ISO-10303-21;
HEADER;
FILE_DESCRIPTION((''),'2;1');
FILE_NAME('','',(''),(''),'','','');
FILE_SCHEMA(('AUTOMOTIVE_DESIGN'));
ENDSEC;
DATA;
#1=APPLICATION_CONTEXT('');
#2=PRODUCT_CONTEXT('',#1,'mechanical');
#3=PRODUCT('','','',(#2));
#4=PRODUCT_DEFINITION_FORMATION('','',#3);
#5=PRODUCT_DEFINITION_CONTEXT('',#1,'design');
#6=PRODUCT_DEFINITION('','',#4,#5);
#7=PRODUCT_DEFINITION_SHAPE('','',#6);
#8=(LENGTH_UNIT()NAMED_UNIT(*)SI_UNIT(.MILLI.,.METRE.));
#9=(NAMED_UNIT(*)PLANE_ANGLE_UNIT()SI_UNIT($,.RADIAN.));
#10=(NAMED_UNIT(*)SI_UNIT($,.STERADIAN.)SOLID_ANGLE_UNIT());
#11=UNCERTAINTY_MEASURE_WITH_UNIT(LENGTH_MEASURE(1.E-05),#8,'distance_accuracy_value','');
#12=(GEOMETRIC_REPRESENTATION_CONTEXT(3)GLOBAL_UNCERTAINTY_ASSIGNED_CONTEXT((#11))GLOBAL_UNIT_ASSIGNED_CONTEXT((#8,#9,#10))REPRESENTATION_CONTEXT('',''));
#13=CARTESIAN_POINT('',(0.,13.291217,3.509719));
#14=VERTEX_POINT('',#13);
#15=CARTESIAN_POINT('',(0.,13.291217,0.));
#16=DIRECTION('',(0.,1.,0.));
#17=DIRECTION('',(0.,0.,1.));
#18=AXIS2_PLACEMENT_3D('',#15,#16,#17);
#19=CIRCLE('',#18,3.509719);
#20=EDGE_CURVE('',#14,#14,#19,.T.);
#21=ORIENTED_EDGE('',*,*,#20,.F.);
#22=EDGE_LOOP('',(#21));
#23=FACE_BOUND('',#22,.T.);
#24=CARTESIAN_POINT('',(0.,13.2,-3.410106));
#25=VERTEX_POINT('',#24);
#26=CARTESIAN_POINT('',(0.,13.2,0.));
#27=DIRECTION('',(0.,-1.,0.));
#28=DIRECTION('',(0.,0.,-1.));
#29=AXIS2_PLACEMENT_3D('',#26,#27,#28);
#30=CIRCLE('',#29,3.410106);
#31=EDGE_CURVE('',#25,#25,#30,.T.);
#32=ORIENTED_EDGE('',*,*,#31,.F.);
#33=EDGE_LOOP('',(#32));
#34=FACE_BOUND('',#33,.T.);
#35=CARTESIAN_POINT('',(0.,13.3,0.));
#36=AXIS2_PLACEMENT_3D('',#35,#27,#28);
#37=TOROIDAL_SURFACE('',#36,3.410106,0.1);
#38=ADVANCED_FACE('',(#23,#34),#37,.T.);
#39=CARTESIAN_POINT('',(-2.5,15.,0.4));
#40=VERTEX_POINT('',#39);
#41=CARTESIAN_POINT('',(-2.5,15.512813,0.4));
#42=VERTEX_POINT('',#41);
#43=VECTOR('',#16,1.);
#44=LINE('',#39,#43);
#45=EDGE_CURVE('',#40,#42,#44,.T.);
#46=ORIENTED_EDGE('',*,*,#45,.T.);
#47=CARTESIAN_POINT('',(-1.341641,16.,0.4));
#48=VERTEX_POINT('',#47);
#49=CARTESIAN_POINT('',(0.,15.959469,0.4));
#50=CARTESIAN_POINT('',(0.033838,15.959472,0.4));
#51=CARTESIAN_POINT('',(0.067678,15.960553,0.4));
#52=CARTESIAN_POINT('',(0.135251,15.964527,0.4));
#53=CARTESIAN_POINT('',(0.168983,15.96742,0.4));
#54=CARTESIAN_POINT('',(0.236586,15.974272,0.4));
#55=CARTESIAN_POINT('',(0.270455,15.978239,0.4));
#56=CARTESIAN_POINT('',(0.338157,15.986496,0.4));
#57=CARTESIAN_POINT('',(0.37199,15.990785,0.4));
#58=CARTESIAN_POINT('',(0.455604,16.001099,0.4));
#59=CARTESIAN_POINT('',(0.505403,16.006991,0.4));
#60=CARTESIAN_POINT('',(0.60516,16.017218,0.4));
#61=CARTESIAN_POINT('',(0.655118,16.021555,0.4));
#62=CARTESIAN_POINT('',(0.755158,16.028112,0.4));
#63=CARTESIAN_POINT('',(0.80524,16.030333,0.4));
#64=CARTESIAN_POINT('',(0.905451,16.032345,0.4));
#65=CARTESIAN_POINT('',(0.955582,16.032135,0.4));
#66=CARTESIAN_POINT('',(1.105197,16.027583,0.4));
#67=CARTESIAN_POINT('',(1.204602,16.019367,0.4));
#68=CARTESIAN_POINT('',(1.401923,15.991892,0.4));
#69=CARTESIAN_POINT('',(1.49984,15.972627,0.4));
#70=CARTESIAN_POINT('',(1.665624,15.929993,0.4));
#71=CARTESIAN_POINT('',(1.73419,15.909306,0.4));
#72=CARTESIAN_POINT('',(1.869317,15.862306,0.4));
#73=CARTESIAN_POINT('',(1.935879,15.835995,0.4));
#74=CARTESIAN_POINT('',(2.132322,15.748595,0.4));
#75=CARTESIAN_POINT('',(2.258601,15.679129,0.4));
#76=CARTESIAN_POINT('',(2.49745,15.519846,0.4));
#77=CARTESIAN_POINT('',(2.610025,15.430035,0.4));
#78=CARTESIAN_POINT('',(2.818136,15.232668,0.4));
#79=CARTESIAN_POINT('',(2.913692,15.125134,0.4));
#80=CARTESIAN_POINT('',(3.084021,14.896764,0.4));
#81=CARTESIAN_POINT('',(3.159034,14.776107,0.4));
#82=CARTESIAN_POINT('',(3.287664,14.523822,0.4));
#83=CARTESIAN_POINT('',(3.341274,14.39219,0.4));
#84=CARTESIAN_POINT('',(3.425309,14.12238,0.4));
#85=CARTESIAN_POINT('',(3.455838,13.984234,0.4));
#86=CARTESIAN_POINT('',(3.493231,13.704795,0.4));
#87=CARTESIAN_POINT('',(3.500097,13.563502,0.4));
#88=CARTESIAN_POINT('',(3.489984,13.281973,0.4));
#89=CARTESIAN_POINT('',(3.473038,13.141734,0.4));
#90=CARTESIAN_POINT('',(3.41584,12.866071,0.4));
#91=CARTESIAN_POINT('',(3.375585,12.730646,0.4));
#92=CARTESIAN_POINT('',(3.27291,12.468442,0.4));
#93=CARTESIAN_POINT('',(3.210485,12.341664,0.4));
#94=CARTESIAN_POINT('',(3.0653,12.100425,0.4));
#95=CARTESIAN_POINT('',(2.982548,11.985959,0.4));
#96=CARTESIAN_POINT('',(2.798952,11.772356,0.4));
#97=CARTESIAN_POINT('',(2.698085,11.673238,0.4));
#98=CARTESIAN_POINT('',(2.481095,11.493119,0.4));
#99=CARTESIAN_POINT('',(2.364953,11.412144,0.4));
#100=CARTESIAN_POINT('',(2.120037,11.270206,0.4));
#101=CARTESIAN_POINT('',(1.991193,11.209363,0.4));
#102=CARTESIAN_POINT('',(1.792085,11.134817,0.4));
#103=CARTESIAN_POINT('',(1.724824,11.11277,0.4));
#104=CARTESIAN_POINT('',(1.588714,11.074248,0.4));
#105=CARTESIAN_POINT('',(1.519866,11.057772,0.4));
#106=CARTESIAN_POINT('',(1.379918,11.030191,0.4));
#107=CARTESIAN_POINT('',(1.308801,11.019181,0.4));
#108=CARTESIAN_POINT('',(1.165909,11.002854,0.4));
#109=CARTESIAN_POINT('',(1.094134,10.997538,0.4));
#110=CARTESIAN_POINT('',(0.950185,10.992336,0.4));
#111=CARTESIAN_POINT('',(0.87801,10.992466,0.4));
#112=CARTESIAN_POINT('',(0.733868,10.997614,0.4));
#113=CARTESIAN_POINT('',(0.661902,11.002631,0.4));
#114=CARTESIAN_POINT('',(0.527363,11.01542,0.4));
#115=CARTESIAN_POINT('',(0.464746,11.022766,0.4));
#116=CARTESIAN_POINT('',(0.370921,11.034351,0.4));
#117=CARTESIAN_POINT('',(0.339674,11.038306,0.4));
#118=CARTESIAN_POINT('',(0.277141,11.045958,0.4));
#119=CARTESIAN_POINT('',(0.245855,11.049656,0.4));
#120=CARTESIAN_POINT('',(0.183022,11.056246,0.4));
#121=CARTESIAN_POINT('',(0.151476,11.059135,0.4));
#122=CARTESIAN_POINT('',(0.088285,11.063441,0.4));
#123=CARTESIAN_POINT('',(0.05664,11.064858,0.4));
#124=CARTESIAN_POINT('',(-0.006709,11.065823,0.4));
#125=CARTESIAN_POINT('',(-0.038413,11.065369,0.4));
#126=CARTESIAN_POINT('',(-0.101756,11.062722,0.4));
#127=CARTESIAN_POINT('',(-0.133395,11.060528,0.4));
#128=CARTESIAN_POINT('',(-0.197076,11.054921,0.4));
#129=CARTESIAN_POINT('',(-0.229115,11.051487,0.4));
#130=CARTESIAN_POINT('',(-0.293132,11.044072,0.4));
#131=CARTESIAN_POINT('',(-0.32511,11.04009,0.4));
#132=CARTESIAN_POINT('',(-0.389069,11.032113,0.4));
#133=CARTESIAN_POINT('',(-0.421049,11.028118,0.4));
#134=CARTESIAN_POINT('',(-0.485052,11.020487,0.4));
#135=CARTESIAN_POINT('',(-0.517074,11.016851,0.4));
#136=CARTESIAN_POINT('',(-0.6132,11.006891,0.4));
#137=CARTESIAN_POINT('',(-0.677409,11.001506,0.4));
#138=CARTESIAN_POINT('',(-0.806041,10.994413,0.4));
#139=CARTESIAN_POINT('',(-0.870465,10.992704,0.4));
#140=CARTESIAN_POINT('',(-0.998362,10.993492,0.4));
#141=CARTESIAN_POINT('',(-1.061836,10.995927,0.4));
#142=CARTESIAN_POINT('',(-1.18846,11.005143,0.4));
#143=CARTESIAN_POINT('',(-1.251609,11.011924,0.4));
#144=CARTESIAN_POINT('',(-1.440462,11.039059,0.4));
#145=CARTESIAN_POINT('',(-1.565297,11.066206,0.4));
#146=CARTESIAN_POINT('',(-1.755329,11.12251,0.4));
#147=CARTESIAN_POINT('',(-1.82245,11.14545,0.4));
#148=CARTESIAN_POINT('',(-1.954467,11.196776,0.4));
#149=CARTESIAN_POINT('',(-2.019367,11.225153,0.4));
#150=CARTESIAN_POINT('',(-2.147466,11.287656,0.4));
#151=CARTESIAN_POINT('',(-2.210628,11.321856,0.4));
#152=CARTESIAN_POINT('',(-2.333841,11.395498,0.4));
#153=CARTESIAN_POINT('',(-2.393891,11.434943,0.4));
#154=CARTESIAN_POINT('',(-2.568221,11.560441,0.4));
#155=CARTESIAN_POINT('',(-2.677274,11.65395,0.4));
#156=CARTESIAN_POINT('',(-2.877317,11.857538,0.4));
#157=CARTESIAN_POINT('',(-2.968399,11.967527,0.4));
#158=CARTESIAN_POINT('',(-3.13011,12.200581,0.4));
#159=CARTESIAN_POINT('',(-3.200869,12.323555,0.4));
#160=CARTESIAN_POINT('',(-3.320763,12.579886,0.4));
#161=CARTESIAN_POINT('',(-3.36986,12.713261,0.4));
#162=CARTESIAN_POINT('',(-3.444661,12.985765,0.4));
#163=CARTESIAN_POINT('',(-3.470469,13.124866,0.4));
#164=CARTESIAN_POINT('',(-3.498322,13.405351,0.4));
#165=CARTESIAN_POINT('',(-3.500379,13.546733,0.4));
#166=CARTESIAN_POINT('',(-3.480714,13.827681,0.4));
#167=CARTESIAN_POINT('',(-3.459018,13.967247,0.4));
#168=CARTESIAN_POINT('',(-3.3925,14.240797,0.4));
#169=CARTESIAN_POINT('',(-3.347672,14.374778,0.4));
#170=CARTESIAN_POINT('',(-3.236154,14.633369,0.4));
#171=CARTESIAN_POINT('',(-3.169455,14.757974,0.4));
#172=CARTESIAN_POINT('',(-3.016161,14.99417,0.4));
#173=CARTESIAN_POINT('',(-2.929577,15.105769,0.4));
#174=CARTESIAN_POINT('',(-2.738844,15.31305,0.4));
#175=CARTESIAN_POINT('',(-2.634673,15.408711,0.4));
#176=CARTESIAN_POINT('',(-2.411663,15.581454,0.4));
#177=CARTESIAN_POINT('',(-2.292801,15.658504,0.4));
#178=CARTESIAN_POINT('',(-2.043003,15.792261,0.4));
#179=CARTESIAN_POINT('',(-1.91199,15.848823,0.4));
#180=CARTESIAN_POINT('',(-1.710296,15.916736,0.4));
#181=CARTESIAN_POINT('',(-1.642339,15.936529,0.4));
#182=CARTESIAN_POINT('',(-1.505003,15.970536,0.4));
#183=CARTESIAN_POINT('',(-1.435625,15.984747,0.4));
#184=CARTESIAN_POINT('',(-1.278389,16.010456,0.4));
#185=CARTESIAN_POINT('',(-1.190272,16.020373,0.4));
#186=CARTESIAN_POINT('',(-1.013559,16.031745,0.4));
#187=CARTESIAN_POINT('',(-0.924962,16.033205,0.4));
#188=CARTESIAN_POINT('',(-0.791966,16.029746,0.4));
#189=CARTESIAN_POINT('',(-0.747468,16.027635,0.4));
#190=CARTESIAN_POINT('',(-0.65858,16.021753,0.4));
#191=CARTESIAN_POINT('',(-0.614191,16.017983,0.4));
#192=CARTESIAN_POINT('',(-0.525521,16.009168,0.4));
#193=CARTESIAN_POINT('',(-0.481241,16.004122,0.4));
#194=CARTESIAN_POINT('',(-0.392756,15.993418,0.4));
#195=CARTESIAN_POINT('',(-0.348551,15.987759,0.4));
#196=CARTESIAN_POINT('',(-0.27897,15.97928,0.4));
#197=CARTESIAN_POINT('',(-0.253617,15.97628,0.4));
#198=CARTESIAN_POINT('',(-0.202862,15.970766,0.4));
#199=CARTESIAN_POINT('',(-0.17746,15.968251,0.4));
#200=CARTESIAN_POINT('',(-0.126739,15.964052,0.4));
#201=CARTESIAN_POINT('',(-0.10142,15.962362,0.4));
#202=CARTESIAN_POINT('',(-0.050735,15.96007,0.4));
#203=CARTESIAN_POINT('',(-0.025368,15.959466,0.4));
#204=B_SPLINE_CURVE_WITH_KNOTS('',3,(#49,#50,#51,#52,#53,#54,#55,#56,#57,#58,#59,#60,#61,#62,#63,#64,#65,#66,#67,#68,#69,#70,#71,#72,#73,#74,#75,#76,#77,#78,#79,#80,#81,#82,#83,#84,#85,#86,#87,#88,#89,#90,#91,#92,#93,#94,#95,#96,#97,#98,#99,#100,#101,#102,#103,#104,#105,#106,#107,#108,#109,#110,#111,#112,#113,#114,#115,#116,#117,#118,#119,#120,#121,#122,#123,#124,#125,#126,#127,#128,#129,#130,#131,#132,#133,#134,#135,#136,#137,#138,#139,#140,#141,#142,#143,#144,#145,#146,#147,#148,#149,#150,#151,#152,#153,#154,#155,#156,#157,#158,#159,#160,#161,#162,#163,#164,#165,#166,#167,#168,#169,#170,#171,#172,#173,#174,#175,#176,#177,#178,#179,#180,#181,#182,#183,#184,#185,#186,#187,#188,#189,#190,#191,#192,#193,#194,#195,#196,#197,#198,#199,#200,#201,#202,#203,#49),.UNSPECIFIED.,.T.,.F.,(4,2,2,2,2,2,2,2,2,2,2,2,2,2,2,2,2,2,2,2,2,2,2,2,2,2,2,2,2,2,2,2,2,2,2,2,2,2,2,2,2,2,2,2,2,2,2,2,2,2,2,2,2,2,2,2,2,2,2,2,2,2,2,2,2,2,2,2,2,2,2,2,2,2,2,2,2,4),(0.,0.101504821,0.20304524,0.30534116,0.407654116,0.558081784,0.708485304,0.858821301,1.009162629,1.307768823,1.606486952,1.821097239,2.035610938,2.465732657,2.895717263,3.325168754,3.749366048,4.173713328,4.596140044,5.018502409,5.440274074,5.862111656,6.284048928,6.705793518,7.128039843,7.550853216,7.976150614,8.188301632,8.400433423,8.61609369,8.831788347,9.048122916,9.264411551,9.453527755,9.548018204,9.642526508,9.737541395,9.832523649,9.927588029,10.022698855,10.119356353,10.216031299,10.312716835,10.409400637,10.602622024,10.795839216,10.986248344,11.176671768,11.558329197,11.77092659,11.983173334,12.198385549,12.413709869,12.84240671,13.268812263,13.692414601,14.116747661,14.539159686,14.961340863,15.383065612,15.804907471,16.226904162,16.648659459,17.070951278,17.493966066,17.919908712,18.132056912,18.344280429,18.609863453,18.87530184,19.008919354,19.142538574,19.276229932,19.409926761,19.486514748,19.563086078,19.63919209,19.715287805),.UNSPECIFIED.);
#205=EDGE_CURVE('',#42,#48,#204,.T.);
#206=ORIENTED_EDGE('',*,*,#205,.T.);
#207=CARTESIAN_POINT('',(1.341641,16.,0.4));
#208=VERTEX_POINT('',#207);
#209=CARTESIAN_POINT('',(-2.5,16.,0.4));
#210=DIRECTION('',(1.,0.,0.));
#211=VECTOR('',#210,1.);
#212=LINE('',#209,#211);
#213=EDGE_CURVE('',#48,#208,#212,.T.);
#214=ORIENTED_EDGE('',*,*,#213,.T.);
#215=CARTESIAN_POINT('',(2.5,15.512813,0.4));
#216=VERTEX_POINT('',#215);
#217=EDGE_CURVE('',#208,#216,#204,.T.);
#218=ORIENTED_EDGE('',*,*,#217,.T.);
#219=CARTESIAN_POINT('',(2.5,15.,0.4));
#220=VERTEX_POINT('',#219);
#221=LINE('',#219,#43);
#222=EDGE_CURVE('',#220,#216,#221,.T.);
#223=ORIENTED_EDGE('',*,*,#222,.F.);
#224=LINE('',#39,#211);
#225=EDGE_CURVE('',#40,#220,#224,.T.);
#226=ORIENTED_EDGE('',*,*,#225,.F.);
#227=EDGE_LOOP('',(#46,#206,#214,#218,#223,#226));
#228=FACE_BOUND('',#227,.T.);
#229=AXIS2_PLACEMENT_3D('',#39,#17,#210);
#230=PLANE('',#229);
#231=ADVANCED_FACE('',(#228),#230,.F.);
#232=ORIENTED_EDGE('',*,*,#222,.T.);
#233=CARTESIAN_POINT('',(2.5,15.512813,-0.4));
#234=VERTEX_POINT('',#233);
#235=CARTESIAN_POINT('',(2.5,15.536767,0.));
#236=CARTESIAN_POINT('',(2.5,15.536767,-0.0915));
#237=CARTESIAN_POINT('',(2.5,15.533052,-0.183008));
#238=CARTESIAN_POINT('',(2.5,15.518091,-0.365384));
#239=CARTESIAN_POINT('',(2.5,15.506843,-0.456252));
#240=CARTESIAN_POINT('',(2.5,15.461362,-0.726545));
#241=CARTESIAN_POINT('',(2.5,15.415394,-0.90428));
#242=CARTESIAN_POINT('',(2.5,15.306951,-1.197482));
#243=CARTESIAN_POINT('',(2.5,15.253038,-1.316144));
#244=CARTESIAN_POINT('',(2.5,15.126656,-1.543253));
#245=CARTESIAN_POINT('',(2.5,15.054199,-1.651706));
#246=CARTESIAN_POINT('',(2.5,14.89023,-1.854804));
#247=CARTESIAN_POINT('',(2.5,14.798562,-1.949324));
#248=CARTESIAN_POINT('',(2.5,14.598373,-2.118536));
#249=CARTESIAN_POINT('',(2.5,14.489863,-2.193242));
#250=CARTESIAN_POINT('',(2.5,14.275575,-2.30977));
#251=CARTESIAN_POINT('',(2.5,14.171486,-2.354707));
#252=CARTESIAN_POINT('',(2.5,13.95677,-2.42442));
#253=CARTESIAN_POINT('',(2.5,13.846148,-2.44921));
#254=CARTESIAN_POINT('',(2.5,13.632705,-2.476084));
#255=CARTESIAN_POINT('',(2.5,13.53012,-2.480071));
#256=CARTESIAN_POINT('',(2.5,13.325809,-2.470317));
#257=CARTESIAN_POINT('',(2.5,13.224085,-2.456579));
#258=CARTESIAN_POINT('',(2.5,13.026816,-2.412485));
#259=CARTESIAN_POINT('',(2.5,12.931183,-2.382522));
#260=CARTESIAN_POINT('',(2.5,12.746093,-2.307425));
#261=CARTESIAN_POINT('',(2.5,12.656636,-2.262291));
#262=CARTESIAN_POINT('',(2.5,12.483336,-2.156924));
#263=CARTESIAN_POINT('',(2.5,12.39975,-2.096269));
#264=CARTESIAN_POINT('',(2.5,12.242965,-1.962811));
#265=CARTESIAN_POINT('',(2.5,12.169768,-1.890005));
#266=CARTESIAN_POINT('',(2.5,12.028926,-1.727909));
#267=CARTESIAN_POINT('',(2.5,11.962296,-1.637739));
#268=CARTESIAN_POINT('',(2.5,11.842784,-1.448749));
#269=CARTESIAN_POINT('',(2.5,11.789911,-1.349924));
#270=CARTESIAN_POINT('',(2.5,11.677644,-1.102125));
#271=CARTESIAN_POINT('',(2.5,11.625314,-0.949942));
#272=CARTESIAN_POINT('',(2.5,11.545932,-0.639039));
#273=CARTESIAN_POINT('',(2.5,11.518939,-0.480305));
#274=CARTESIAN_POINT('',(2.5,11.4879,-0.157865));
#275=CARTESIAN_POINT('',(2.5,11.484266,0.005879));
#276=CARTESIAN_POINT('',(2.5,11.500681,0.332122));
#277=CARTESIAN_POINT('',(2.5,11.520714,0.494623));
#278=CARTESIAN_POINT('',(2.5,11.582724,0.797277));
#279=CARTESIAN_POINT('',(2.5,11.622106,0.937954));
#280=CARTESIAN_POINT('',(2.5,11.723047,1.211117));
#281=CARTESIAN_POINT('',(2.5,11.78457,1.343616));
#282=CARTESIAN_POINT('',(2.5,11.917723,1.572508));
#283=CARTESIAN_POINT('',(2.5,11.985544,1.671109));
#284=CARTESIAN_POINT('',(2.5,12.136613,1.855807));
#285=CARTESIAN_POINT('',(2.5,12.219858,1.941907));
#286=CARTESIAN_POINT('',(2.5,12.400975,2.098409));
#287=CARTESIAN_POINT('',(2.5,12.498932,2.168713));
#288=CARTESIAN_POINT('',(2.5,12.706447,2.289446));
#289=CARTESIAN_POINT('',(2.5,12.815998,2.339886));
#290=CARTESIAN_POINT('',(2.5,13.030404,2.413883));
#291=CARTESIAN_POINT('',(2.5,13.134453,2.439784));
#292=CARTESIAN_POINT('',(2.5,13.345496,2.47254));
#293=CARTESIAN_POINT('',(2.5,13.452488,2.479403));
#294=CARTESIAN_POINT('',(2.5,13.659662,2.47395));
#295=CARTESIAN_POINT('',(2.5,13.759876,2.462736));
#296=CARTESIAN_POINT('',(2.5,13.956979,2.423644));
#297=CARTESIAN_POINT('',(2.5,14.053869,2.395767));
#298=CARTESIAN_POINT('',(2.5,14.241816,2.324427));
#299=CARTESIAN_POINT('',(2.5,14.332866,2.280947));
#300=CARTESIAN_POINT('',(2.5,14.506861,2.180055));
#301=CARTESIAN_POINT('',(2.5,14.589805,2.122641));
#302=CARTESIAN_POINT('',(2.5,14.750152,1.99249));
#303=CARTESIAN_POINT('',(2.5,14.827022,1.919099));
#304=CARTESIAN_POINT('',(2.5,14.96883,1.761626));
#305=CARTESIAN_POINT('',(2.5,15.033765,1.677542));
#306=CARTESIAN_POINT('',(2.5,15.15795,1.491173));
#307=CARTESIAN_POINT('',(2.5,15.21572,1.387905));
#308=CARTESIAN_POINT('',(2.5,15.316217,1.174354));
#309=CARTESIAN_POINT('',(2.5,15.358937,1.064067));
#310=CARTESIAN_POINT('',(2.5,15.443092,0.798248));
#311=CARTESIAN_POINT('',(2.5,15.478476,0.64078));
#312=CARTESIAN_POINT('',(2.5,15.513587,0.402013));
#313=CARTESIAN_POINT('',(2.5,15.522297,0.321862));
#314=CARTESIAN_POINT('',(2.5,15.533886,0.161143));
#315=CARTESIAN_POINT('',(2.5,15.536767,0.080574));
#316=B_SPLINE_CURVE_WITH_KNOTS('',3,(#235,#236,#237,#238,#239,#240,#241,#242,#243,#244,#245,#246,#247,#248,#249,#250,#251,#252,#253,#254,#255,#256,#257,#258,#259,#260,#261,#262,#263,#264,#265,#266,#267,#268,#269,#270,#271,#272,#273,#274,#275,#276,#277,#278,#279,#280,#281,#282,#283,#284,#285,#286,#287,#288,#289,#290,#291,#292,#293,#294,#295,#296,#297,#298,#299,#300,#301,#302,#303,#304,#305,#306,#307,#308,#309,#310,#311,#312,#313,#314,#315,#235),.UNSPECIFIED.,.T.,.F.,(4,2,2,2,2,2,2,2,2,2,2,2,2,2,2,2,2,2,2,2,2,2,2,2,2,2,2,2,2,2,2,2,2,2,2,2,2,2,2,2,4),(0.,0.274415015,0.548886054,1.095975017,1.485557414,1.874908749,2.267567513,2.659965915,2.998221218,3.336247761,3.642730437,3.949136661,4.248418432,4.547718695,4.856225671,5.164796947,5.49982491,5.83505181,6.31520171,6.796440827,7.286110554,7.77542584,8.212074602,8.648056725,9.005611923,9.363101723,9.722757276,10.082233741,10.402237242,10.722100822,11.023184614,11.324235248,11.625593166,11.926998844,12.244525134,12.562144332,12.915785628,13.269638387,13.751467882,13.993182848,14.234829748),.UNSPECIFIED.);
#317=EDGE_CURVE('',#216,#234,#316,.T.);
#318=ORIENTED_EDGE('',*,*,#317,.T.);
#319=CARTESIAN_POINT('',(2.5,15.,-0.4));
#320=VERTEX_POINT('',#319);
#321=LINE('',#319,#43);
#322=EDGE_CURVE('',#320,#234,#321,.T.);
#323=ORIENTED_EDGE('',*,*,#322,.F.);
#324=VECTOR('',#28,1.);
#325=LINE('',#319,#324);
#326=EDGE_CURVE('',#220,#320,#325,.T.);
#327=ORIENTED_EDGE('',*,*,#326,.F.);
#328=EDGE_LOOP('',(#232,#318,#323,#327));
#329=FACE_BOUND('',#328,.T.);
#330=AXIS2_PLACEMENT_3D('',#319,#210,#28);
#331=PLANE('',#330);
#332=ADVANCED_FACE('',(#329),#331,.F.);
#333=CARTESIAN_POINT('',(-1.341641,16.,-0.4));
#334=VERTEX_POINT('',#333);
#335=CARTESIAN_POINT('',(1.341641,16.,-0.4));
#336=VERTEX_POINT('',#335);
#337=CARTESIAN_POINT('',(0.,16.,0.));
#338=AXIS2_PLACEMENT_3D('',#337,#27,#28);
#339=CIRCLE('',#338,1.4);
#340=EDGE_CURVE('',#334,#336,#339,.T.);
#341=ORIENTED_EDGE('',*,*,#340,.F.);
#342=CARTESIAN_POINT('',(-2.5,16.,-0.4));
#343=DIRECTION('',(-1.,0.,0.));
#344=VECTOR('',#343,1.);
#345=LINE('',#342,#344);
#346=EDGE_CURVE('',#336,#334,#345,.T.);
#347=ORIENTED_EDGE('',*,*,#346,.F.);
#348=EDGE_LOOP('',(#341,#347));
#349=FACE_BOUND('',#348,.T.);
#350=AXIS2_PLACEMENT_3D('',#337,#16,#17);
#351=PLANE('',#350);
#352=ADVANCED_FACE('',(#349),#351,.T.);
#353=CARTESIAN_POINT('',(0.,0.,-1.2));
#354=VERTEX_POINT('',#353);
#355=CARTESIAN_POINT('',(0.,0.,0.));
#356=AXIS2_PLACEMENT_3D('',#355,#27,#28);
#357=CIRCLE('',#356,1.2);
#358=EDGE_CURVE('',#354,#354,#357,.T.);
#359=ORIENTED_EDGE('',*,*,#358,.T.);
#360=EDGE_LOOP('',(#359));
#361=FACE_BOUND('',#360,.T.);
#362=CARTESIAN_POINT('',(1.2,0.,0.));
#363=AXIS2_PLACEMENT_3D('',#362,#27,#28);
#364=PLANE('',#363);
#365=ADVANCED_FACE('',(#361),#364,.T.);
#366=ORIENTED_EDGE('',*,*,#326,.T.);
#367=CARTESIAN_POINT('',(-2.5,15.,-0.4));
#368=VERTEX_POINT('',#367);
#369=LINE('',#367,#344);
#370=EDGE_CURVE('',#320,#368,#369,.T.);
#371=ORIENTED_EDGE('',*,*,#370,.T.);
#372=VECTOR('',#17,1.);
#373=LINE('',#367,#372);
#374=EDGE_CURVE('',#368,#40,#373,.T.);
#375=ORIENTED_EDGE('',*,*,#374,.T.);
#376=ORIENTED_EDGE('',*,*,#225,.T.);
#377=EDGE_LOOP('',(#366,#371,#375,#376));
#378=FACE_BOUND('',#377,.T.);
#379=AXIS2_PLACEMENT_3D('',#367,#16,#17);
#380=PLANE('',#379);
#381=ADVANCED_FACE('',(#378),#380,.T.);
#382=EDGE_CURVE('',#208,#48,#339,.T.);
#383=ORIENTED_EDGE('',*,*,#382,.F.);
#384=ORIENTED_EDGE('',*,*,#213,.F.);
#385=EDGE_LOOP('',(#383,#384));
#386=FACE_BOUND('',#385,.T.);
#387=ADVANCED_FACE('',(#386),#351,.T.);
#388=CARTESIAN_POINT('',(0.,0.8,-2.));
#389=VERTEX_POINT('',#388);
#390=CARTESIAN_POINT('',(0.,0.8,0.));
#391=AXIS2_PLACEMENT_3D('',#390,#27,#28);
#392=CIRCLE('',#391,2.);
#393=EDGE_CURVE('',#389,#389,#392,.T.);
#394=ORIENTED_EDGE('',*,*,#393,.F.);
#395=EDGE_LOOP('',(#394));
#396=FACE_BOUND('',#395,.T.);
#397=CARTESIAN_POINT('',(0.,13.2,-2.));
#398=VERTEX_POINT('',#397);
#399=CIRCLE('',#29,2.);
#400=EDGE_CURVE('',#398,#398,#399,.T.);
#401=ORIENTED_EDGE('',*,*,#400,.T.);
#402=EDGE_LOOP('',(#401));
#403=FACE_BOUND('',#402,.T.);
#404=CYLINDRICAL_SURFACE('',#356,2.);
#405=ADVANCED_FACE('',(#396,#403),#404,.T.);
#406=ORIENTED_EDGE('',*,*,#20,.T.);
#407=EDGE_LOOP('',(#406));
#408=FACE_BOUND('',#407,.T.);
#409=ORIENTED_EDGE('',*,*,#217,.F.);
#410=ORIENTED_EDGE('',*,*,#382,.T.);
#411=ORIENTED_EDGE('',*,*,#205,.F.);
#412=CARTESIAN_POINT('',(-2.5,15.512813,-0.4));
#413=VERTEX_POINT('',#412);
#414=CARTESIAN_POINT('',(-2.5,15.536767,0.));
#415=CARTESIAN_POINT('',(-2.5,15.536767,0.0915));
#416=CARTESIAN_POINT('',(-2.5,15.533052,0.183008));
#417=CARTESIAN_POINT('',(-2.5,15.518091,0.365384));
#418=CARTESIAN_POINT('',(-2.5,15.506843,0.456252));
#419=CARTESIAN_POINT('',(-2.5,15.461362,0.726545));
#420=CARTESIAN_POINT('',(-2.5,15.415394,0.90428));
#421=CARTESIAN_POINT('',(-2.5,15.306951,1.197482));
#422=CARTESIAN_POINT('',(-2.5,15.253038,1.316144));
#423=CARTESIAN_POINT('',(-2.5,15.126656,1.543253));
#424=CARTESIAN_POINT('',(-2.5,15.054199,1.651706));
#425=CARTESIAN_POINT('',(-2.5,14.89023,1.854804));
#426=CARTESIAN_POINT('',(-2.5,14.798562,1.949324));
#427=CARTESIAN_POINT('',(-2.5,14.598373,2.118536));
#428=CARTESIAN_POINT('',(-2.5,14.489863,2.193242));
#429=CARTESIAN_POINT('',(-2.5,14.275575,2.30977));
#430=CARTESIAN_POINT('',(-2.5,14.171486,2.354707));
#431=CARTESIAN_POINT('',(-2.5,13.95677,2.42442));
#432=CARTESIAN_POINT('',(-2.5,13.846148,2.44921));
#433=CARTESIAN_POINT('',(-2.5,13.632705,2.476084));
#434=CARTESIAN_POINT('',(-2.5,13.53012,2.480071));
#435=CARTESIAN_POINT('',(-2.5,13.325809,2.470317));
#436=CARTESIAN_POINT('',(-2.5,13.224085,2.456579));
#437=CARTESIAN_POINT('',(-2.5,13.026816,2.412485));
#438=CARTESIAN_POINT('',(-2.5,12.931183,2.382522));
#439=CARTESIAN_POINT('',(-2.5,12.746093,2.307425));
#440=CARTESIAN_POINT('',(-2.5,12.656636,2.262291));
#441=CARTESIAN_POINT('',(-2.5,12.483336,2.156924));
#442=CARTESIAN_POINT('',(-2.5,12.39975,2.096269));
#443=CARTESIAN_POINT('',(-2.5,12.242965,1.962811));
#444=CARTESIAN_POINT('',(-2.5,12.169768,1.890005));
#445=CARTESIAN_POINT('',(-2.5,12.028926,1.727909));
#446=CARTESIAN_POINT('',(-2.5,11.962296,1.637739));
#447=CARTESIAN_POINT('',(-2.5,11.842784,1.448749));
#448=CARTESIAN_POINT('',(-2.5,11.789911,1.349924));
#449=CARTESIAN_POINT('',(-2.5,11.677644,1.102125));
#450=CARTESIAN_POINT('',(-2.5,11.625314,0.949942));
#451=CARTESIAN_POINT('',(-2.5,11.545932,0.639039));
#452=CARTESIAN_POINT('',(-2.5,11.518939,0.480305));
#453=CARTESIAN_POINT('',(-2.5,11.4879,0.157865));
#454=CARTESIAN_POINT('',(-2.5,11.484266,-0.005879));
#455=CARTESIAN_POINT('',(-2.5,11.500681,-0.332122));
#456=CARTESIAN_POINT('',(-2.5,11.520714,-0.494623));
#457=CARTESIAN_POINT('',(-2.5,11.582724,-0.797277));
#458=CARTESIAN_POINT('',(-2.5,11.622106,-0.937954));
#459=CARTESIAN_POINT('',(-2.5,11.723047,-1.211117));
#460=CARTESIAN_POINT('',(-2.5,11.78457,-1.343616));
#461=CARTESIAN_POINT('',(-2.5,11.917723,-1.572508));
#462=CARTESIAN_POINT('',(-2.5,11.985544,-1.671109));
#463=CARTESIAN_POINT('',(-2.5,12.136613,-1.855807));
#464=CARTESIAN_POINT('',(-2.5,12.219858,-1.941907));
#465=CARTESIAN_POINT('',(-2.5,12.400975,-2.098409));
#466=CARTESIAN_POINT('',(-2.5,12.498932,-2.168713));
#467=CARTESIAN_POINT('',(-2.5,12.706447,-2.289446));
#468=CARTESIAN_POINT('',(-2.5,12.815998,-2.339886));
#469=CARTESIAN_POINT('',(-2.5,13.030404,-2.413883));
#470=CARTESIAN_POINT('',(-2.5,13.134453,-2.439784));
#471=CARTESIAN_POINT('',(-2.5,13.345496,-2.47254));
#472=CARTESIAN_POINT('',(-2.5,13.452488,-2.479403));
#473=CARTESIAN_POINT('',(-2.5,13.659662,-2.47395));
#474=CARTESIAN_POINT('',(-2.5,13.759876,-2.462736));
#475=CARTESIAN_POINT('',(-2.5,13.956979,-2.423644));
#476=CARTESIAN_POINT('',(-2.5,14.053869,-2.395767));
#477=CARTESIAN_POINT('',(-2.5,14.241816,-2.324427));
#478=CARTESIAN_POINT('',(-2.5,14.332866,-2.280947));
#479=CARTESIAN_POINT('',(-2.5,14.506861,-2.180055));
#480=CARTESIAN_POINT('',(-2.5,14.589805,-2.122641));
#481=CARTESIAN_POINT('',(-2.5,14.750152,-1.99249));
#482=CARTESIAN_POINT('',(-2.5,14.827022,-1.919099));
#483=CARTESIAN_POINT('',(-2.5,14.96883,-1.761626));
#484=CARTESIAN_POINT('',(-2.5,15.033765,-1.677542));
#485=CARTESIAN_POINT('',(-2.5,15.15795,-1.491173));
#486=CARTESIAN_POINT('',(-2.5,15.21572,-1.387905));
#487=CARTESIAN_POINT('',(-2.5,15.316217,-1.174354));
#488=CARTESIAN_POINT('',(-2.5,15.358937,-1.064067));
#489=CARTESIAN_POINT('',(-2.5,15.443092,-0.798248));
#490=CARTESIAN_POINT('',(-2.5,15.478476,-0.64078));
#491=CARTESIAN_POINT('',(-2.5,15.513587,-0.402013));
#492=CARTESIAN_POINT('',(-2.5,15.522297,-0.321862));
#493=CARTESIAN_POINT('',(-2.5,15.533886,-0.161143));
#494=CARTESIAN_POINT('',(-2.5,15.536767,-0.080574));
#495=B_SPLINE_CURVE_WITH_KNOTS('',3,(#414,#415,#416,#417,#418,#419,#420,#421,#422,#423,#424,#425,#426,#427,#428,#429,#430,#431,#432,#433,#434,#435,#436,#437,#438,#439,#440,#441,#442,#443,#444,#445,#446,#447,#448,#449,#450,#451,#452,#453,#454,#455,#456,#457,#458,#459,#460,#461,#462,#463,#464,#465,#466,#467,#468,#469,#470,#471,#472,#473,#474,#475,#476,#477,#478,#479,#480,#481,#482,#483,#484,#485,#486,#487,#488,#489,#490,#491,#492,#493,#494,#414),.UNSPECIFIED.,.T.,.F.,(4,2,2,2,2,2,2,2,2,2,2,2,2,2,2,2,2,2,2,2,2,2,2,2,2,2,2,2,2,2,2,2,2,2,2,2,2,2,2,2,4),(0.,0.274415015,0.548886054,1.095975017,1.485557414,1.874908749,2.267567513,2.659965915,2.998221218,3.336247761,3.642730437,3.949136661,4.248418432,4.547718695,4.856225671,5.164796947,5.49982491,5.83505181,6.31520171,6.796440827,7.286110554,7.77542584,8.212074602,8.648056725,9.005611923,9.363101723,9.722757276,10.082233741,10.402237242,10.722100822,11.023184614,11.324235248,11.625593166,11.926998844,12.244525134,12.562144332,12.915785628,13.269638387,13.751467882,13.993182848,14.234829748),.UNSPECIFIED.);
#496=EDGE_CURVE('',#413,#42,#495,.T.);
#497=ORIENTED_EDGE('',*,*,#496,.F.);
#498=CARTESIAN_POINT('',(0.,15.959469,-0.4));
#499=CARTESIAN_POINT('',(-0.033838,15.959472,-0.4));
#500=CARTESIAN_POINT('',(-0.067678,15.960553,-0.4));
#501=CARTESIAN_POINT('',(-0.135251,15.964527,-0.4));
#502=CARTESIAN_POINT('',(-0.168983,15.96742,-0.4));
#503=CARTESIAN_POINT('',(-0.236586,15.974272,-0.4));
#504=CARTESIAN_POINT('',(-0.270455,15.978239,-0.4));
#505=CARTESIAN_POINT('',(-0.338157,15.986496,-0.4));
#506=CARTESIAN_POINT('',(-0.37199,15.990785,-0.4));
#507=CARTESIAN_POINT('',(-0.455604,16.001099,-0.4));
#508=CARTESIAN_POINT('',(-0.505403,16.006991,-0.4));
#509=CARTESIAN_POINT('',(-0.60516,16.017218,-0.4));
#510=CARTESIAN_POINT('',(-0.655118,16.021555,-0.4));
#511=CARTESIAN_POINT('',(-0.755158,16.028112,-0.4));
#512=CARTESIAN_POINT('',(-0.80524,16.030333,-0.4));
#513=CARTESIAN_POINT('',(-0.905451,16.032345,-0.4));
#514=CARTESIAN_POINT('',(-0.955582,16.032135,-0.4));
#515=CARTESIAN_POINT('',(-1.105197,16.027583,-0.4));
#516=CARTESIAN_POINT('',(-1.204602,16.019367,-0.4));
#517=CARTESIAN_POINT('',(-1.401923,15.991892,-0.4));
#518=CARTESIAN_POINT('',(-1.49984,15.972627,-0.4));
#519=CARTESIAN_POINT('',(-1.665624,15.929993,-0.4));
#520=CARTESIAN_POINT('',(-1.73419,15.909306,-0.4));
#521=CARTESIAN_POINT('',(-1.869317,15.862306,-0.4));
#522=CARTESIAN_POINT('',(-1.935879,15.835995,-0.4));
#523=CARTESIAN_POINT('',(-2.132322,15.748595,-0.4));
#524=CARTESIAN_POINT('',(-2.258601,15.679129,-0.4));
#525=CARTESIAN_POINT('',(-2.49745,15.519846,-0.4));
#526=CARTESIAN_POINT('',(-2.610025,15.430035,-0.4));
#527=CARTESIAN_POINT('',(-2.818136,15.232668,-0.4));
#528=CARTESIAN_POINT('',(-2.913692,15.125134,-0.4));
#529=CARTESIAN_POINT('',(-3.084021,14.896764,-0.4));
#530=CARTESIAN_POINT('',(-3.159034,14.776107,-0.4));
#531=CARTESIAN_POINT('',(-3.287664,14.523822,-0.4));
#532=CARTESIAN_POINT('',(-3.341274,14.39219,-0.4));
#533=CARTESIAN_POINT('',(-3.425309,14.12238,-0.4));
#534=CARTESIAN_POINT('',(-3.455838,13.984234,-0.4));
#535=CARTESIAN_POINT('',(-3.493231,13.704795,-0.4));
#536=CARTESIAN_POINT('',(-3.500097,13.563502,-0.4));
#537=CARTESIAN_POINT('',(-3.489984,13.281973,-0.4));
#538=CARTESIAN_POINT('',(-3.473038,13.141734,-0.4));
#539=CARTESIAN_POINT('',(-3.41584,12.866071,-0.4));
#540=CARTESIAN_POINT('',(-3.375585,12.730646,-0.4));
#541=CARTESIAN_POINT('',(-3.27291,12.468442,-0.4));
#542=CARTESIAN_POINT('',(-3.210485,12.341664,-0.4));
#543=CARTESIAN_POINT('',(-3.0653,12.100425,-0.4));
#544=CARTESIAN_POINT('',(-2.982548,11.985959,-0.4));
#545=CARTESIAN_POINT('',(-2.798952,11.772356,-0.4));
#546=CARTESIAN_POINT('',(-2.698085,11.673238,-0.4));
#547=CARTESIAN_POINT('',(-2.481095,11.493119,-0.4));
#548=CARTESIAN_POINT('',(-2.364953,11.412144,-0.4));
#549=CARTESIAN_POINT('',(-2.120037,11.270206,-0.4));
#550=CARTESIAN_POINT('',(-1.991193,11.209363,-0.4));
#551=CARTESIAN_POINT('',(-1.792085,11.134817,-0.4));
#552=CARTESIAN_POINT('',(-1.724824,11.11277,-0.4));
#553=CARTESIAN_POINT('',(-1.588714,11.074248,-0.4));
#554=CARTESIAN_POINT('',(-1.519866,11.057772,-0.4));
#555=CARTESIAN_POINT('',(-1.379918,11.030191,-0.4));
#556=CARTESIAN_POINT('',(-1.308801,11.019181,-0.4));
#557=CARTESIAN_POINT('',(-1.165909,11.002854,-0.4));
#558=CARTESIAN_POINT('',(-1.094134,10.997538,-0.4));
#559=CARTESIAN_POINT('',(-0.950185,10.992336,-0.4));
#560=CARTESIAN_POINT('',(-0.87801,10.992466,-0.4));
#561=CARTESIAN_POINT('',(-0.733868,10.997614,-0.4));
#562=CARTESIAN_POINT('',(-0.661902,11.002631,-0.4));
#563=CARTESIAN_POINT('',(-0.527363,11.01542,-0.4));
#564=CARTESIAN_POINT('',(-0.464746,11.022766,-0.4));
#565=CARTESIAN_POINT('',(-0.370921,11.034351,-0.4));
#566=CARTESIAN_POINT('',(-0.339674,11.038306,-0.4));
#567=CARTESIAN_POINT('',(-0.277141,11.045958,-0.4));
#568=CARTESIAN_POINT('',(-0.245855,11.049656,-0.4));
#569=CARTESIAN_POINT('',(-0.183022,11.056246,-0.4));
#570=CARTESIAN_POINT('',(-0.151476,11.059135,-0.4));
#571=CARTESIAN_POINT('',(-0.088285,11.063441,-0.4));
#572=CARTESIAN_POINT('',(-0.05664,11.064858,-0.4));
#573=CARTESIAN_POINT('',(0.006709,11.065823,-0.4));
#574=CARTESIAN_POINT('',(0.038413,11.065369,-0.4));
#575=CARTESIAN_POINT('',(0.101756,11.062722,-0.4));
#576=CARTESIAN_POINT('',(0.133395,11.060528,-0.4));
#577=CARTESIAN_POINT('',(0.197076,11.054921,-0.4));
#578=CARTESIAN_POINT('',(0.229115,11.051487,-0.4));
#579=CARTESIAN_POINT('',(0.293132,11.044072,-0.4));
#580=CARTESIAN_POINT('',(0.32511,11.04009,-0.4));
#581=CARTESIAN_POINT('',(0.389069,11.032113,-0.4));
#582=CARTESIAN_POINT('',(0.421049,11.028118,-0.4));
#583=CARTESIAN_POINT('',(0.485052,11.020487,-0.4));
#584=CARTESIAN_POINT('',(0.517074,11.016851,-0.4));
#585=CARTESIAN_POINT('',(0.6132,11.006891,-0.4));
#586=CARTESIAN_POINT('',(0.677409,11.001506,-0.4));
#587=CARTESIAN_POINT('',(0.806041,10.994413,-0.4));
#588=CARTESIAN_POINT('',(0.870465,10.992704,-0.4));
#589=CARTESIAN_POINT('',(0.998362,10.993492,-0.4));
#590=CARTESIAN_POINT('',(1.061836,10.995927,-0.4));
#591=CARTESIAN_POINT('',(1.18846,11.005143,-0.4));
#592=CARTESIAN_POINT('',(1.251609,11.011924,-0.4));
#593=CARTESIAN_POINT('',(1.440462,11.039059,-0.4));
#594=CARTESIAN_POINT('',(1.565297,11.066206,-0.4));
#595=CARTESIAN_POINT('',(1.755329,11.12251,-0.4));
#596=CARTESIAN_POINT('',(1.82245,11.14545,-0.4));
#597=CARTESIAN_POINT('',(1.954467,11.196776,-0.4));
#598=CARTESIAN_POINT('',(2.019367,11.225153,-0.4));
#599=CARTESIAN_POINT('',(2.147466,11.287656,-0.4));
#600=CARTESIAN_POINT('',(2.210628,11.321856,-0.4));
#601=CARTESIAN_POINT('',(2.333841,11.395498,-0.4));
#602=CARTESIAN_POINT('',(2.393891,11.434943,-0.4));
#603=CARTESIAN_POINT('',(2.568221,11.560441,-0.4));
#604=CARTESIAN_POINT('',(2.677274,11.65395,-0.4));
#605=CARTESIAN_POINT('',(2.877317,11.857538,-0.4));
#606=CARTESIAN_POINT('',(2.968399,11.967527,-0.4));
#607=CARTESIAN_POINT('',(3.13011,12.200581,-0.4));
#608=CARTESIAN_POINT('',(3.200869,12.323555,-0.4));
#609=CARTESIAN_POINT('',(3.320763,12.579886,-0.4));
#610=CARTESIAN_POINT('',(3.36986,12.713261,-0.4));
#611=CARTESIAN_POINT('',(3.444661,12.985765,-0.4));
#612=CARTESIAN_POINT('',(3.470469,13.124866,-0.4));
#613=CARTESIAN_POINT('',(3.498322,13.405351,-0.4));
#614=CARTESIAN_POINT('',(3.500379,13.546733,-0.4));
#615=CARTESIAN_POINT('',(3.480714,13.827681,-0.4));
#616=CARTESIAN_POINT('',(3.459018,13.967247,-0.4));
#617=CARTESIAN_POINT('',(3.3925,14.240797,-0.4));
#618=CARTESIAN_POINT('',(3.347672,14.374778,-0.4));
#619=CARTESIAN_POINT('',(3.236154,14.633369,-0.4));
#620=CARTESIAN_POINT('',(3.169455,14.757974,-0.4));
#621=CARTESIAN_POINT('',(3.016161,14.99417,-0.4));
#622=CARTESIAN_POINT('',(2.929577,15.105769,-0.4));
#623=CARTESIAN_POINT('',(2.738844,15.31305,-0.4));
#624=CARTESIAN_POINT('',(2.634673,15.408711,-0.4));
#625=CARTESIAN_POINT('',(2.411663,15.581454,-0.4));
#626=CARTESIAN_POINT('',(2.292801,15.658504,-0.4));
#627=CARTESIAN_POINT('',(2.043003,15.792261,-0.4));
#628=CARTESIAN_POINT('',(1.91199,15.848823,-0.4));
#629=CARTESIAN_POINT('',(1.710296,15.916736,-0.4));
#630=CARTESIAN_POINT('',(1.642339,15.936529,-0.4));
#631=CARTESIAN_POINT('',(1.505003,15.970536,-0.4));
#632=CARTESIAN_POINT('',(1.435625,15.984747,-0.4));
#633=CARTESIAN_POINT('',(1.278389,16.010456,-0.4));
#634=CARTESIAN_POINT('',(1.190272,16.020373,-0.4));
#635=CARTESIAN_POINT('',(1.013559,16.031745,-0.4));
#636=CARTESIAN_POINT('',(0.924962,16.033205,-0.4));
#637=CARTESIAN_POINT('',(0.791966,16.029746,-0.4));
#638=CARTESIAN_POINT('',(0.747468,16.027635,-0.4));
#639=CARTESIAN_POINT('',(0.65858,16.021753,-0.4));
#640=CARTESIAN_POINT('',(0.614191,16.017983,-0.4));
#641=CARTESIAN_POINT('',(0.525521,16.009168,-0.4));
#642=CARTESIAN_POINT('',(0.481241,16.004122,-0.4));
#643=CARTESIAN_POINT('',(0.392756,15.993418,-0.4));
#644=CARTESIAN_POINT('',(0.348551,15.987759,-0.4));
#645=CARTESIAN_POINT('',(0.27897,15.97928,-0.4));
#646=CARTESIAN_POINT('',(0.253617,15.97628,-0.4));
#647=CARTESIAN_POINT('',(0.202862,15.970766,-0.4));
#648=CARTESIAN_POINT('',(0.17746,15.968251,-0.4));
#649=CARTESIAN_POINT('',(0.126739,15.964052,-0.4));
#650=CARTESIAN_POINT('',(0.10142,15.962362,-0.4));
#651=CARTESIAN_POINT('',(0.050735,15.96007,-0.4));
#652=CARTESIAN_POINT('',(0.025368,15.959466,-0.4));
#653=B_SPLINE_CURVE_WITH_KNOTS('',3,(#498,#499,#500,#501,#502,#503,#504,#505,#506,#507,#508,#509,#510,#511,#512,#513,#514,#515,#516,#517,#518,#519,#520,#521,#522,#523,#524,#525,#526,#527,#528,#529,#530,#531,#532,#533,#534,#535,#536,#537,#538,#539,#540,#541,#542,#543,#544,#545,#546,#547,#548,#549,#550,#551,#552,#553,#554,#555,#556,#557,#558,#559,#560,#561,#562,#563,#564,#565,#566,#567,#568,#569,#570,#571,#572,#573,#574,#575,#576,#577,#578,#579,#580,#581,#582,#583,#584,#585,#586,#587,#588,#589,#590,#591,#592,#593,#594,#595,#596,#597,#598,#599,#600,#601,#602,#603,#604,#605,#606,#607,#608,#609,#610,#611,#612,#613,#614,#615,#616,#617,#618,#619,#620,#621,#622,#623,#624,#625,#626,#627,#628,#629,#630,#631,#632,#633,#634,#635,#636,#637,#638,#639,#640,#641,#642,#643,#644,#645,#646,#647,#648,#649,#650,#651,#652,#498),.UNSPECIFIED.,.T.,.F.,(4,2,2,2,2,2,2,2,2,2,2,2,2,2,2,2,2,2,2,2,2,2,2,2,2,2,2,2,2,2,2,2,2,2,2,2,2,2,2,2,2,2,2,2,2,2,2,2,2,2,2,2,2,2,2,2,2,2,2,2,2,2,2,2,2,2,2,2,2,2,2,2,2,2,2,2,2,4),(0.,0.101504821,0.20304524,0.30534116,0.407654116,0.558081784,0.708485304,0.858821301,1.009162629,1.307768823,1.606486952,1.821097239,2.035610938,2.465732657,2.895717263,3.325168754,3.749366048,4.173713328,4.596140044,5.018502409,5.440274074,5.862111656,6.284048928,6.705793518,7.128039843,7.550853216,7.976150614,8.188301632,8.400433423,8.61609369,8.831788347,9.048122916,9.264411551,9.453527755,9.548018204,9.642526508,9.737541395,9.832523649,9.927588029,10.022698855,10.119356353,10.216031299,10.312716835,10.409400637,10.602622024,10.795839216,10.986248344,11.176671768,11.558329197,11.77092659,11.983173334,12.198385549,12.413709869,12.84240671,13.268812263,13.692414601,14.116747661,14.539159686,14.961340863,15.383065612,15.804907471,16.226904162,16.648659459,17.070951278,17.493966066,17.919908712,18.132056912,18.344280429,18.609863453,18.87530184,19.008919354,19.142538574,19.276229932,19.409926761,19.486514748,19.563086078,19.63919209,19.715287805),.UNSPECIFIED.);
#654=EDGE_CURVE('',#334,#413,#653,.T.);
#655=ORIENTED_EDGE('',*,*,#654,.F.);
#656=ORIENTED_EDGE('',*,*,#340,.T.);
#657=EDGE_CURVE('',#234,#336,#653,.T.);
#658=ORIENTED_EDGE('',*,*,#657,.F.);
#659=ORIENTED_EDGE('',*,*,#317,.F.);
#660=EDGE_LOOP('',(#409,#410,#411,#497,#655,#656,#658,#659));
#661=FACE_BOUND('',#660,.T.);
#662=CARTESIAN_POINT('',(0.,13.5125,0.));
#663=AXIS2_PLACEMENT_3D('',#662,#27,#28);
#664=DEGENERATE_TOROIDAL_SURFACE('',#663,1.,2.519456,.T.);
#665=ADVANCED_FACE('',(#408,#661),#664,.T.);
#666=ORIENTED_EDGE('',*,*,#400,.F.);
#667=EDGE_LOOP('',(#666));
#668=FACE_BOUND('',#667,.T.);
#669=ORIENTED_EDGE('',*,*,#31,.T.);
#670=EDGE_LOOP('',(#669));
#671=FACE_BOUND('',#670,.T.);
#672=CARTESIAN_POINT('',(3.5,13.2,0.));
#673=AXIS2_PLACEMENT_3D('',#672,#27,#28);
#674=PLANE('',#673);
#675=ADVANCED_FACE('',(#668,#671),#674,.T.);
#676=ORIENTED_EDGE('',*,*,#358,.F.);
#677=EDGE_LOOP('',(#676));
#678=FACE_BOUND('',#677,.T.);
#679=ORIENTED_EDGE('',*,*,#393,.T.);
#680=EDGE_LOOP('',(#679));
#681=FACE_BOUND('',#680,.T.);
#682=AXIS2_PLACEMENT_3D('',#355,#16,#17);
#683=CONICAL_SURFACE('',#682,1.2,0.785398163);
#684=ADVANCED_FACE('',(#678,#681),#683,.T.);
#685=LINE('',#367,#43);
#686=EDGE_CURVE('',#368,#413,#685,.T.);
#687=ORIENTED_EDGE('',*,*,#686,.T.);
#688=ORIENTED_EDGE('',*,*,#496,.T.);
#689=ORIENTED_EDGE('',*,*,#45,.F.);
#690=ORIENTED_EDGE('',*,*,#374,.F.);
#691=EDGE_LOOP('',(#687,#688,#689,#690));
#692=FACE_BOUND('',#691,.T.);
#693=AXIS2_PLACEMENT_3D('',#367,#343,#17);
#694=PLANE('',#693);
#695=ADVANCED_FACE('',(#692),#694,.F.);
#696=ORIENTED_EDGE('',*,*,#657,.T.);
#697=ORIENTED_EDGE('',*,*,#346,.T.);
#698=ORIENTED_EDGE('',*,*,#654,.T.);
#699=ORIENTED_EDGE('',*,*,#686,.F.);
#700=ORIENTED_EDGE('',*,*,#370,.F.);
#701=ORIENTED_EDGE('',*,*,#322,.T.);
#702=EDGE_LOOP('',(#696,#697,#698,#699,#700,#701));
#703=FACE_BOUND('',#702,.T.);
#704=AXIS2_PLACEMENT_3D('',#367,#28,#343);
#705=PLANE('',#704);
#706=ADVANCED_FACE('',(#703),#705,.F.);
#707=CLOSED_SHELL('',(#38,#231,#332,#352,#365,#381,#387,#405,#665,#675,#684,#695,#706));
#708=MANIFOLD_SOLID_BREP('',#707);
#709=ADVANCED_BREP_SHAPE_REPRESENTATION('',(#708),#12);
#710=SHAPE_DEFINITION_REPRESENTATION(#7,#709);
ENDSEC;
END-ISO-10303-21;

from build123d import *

# Parameters (mm, degrees)
FILLET_1_R          = 0.1
SKETCH_3_W          = 5
SKETCH_3_H          = 0.8
CUT_EXTRUDE_2_DEPTH = 1


with BuildPart() as part:
    # Эскиз1 → Повернуть1 (revolve)
    with BuildSketch(Plane.XY):
        with BuildLine():
            Line((3.5, 13.2), (2, 13.2))
            Line((2, 13.2), (2, 0.8))
            Line((2, 0.8), (1.2, 0))
            Line((1.2, 0), (0, 0))
            Line((0, 0), (0, 16))
            Line((0, 16), (1.4, 16))
            ThreePointArc((1.4, 16), (3.015564437, 15.024173328), (3.5, 13.2))
        make_face()
    revolve(axis=Axis((0, 0, 0), (0, 1, 0)))

    # Скругление1
    fillet_1_edges = [part.edges().sort_by_distance(p)[0] for p in [
        (-3.5, 13.2, 0),
    ]]
    fillet(fillet_1_edges, radius=FILLET_1_R)

    # Эскиз3 → Вырез-Вытянуть2 (cut)
    with BuildSketch(Plane(origin=(0, 16, 0), x_dir=(-1, 0, 0), z_dir=(0, 1, 0))):
        Rectangle(SKETCH_3_W, SKETCH_3_H)
    extrude(amount=-CUT_EXTRUDE_2_DEPTH, mode=Mode.SUBTRACT)


solid = part.part
